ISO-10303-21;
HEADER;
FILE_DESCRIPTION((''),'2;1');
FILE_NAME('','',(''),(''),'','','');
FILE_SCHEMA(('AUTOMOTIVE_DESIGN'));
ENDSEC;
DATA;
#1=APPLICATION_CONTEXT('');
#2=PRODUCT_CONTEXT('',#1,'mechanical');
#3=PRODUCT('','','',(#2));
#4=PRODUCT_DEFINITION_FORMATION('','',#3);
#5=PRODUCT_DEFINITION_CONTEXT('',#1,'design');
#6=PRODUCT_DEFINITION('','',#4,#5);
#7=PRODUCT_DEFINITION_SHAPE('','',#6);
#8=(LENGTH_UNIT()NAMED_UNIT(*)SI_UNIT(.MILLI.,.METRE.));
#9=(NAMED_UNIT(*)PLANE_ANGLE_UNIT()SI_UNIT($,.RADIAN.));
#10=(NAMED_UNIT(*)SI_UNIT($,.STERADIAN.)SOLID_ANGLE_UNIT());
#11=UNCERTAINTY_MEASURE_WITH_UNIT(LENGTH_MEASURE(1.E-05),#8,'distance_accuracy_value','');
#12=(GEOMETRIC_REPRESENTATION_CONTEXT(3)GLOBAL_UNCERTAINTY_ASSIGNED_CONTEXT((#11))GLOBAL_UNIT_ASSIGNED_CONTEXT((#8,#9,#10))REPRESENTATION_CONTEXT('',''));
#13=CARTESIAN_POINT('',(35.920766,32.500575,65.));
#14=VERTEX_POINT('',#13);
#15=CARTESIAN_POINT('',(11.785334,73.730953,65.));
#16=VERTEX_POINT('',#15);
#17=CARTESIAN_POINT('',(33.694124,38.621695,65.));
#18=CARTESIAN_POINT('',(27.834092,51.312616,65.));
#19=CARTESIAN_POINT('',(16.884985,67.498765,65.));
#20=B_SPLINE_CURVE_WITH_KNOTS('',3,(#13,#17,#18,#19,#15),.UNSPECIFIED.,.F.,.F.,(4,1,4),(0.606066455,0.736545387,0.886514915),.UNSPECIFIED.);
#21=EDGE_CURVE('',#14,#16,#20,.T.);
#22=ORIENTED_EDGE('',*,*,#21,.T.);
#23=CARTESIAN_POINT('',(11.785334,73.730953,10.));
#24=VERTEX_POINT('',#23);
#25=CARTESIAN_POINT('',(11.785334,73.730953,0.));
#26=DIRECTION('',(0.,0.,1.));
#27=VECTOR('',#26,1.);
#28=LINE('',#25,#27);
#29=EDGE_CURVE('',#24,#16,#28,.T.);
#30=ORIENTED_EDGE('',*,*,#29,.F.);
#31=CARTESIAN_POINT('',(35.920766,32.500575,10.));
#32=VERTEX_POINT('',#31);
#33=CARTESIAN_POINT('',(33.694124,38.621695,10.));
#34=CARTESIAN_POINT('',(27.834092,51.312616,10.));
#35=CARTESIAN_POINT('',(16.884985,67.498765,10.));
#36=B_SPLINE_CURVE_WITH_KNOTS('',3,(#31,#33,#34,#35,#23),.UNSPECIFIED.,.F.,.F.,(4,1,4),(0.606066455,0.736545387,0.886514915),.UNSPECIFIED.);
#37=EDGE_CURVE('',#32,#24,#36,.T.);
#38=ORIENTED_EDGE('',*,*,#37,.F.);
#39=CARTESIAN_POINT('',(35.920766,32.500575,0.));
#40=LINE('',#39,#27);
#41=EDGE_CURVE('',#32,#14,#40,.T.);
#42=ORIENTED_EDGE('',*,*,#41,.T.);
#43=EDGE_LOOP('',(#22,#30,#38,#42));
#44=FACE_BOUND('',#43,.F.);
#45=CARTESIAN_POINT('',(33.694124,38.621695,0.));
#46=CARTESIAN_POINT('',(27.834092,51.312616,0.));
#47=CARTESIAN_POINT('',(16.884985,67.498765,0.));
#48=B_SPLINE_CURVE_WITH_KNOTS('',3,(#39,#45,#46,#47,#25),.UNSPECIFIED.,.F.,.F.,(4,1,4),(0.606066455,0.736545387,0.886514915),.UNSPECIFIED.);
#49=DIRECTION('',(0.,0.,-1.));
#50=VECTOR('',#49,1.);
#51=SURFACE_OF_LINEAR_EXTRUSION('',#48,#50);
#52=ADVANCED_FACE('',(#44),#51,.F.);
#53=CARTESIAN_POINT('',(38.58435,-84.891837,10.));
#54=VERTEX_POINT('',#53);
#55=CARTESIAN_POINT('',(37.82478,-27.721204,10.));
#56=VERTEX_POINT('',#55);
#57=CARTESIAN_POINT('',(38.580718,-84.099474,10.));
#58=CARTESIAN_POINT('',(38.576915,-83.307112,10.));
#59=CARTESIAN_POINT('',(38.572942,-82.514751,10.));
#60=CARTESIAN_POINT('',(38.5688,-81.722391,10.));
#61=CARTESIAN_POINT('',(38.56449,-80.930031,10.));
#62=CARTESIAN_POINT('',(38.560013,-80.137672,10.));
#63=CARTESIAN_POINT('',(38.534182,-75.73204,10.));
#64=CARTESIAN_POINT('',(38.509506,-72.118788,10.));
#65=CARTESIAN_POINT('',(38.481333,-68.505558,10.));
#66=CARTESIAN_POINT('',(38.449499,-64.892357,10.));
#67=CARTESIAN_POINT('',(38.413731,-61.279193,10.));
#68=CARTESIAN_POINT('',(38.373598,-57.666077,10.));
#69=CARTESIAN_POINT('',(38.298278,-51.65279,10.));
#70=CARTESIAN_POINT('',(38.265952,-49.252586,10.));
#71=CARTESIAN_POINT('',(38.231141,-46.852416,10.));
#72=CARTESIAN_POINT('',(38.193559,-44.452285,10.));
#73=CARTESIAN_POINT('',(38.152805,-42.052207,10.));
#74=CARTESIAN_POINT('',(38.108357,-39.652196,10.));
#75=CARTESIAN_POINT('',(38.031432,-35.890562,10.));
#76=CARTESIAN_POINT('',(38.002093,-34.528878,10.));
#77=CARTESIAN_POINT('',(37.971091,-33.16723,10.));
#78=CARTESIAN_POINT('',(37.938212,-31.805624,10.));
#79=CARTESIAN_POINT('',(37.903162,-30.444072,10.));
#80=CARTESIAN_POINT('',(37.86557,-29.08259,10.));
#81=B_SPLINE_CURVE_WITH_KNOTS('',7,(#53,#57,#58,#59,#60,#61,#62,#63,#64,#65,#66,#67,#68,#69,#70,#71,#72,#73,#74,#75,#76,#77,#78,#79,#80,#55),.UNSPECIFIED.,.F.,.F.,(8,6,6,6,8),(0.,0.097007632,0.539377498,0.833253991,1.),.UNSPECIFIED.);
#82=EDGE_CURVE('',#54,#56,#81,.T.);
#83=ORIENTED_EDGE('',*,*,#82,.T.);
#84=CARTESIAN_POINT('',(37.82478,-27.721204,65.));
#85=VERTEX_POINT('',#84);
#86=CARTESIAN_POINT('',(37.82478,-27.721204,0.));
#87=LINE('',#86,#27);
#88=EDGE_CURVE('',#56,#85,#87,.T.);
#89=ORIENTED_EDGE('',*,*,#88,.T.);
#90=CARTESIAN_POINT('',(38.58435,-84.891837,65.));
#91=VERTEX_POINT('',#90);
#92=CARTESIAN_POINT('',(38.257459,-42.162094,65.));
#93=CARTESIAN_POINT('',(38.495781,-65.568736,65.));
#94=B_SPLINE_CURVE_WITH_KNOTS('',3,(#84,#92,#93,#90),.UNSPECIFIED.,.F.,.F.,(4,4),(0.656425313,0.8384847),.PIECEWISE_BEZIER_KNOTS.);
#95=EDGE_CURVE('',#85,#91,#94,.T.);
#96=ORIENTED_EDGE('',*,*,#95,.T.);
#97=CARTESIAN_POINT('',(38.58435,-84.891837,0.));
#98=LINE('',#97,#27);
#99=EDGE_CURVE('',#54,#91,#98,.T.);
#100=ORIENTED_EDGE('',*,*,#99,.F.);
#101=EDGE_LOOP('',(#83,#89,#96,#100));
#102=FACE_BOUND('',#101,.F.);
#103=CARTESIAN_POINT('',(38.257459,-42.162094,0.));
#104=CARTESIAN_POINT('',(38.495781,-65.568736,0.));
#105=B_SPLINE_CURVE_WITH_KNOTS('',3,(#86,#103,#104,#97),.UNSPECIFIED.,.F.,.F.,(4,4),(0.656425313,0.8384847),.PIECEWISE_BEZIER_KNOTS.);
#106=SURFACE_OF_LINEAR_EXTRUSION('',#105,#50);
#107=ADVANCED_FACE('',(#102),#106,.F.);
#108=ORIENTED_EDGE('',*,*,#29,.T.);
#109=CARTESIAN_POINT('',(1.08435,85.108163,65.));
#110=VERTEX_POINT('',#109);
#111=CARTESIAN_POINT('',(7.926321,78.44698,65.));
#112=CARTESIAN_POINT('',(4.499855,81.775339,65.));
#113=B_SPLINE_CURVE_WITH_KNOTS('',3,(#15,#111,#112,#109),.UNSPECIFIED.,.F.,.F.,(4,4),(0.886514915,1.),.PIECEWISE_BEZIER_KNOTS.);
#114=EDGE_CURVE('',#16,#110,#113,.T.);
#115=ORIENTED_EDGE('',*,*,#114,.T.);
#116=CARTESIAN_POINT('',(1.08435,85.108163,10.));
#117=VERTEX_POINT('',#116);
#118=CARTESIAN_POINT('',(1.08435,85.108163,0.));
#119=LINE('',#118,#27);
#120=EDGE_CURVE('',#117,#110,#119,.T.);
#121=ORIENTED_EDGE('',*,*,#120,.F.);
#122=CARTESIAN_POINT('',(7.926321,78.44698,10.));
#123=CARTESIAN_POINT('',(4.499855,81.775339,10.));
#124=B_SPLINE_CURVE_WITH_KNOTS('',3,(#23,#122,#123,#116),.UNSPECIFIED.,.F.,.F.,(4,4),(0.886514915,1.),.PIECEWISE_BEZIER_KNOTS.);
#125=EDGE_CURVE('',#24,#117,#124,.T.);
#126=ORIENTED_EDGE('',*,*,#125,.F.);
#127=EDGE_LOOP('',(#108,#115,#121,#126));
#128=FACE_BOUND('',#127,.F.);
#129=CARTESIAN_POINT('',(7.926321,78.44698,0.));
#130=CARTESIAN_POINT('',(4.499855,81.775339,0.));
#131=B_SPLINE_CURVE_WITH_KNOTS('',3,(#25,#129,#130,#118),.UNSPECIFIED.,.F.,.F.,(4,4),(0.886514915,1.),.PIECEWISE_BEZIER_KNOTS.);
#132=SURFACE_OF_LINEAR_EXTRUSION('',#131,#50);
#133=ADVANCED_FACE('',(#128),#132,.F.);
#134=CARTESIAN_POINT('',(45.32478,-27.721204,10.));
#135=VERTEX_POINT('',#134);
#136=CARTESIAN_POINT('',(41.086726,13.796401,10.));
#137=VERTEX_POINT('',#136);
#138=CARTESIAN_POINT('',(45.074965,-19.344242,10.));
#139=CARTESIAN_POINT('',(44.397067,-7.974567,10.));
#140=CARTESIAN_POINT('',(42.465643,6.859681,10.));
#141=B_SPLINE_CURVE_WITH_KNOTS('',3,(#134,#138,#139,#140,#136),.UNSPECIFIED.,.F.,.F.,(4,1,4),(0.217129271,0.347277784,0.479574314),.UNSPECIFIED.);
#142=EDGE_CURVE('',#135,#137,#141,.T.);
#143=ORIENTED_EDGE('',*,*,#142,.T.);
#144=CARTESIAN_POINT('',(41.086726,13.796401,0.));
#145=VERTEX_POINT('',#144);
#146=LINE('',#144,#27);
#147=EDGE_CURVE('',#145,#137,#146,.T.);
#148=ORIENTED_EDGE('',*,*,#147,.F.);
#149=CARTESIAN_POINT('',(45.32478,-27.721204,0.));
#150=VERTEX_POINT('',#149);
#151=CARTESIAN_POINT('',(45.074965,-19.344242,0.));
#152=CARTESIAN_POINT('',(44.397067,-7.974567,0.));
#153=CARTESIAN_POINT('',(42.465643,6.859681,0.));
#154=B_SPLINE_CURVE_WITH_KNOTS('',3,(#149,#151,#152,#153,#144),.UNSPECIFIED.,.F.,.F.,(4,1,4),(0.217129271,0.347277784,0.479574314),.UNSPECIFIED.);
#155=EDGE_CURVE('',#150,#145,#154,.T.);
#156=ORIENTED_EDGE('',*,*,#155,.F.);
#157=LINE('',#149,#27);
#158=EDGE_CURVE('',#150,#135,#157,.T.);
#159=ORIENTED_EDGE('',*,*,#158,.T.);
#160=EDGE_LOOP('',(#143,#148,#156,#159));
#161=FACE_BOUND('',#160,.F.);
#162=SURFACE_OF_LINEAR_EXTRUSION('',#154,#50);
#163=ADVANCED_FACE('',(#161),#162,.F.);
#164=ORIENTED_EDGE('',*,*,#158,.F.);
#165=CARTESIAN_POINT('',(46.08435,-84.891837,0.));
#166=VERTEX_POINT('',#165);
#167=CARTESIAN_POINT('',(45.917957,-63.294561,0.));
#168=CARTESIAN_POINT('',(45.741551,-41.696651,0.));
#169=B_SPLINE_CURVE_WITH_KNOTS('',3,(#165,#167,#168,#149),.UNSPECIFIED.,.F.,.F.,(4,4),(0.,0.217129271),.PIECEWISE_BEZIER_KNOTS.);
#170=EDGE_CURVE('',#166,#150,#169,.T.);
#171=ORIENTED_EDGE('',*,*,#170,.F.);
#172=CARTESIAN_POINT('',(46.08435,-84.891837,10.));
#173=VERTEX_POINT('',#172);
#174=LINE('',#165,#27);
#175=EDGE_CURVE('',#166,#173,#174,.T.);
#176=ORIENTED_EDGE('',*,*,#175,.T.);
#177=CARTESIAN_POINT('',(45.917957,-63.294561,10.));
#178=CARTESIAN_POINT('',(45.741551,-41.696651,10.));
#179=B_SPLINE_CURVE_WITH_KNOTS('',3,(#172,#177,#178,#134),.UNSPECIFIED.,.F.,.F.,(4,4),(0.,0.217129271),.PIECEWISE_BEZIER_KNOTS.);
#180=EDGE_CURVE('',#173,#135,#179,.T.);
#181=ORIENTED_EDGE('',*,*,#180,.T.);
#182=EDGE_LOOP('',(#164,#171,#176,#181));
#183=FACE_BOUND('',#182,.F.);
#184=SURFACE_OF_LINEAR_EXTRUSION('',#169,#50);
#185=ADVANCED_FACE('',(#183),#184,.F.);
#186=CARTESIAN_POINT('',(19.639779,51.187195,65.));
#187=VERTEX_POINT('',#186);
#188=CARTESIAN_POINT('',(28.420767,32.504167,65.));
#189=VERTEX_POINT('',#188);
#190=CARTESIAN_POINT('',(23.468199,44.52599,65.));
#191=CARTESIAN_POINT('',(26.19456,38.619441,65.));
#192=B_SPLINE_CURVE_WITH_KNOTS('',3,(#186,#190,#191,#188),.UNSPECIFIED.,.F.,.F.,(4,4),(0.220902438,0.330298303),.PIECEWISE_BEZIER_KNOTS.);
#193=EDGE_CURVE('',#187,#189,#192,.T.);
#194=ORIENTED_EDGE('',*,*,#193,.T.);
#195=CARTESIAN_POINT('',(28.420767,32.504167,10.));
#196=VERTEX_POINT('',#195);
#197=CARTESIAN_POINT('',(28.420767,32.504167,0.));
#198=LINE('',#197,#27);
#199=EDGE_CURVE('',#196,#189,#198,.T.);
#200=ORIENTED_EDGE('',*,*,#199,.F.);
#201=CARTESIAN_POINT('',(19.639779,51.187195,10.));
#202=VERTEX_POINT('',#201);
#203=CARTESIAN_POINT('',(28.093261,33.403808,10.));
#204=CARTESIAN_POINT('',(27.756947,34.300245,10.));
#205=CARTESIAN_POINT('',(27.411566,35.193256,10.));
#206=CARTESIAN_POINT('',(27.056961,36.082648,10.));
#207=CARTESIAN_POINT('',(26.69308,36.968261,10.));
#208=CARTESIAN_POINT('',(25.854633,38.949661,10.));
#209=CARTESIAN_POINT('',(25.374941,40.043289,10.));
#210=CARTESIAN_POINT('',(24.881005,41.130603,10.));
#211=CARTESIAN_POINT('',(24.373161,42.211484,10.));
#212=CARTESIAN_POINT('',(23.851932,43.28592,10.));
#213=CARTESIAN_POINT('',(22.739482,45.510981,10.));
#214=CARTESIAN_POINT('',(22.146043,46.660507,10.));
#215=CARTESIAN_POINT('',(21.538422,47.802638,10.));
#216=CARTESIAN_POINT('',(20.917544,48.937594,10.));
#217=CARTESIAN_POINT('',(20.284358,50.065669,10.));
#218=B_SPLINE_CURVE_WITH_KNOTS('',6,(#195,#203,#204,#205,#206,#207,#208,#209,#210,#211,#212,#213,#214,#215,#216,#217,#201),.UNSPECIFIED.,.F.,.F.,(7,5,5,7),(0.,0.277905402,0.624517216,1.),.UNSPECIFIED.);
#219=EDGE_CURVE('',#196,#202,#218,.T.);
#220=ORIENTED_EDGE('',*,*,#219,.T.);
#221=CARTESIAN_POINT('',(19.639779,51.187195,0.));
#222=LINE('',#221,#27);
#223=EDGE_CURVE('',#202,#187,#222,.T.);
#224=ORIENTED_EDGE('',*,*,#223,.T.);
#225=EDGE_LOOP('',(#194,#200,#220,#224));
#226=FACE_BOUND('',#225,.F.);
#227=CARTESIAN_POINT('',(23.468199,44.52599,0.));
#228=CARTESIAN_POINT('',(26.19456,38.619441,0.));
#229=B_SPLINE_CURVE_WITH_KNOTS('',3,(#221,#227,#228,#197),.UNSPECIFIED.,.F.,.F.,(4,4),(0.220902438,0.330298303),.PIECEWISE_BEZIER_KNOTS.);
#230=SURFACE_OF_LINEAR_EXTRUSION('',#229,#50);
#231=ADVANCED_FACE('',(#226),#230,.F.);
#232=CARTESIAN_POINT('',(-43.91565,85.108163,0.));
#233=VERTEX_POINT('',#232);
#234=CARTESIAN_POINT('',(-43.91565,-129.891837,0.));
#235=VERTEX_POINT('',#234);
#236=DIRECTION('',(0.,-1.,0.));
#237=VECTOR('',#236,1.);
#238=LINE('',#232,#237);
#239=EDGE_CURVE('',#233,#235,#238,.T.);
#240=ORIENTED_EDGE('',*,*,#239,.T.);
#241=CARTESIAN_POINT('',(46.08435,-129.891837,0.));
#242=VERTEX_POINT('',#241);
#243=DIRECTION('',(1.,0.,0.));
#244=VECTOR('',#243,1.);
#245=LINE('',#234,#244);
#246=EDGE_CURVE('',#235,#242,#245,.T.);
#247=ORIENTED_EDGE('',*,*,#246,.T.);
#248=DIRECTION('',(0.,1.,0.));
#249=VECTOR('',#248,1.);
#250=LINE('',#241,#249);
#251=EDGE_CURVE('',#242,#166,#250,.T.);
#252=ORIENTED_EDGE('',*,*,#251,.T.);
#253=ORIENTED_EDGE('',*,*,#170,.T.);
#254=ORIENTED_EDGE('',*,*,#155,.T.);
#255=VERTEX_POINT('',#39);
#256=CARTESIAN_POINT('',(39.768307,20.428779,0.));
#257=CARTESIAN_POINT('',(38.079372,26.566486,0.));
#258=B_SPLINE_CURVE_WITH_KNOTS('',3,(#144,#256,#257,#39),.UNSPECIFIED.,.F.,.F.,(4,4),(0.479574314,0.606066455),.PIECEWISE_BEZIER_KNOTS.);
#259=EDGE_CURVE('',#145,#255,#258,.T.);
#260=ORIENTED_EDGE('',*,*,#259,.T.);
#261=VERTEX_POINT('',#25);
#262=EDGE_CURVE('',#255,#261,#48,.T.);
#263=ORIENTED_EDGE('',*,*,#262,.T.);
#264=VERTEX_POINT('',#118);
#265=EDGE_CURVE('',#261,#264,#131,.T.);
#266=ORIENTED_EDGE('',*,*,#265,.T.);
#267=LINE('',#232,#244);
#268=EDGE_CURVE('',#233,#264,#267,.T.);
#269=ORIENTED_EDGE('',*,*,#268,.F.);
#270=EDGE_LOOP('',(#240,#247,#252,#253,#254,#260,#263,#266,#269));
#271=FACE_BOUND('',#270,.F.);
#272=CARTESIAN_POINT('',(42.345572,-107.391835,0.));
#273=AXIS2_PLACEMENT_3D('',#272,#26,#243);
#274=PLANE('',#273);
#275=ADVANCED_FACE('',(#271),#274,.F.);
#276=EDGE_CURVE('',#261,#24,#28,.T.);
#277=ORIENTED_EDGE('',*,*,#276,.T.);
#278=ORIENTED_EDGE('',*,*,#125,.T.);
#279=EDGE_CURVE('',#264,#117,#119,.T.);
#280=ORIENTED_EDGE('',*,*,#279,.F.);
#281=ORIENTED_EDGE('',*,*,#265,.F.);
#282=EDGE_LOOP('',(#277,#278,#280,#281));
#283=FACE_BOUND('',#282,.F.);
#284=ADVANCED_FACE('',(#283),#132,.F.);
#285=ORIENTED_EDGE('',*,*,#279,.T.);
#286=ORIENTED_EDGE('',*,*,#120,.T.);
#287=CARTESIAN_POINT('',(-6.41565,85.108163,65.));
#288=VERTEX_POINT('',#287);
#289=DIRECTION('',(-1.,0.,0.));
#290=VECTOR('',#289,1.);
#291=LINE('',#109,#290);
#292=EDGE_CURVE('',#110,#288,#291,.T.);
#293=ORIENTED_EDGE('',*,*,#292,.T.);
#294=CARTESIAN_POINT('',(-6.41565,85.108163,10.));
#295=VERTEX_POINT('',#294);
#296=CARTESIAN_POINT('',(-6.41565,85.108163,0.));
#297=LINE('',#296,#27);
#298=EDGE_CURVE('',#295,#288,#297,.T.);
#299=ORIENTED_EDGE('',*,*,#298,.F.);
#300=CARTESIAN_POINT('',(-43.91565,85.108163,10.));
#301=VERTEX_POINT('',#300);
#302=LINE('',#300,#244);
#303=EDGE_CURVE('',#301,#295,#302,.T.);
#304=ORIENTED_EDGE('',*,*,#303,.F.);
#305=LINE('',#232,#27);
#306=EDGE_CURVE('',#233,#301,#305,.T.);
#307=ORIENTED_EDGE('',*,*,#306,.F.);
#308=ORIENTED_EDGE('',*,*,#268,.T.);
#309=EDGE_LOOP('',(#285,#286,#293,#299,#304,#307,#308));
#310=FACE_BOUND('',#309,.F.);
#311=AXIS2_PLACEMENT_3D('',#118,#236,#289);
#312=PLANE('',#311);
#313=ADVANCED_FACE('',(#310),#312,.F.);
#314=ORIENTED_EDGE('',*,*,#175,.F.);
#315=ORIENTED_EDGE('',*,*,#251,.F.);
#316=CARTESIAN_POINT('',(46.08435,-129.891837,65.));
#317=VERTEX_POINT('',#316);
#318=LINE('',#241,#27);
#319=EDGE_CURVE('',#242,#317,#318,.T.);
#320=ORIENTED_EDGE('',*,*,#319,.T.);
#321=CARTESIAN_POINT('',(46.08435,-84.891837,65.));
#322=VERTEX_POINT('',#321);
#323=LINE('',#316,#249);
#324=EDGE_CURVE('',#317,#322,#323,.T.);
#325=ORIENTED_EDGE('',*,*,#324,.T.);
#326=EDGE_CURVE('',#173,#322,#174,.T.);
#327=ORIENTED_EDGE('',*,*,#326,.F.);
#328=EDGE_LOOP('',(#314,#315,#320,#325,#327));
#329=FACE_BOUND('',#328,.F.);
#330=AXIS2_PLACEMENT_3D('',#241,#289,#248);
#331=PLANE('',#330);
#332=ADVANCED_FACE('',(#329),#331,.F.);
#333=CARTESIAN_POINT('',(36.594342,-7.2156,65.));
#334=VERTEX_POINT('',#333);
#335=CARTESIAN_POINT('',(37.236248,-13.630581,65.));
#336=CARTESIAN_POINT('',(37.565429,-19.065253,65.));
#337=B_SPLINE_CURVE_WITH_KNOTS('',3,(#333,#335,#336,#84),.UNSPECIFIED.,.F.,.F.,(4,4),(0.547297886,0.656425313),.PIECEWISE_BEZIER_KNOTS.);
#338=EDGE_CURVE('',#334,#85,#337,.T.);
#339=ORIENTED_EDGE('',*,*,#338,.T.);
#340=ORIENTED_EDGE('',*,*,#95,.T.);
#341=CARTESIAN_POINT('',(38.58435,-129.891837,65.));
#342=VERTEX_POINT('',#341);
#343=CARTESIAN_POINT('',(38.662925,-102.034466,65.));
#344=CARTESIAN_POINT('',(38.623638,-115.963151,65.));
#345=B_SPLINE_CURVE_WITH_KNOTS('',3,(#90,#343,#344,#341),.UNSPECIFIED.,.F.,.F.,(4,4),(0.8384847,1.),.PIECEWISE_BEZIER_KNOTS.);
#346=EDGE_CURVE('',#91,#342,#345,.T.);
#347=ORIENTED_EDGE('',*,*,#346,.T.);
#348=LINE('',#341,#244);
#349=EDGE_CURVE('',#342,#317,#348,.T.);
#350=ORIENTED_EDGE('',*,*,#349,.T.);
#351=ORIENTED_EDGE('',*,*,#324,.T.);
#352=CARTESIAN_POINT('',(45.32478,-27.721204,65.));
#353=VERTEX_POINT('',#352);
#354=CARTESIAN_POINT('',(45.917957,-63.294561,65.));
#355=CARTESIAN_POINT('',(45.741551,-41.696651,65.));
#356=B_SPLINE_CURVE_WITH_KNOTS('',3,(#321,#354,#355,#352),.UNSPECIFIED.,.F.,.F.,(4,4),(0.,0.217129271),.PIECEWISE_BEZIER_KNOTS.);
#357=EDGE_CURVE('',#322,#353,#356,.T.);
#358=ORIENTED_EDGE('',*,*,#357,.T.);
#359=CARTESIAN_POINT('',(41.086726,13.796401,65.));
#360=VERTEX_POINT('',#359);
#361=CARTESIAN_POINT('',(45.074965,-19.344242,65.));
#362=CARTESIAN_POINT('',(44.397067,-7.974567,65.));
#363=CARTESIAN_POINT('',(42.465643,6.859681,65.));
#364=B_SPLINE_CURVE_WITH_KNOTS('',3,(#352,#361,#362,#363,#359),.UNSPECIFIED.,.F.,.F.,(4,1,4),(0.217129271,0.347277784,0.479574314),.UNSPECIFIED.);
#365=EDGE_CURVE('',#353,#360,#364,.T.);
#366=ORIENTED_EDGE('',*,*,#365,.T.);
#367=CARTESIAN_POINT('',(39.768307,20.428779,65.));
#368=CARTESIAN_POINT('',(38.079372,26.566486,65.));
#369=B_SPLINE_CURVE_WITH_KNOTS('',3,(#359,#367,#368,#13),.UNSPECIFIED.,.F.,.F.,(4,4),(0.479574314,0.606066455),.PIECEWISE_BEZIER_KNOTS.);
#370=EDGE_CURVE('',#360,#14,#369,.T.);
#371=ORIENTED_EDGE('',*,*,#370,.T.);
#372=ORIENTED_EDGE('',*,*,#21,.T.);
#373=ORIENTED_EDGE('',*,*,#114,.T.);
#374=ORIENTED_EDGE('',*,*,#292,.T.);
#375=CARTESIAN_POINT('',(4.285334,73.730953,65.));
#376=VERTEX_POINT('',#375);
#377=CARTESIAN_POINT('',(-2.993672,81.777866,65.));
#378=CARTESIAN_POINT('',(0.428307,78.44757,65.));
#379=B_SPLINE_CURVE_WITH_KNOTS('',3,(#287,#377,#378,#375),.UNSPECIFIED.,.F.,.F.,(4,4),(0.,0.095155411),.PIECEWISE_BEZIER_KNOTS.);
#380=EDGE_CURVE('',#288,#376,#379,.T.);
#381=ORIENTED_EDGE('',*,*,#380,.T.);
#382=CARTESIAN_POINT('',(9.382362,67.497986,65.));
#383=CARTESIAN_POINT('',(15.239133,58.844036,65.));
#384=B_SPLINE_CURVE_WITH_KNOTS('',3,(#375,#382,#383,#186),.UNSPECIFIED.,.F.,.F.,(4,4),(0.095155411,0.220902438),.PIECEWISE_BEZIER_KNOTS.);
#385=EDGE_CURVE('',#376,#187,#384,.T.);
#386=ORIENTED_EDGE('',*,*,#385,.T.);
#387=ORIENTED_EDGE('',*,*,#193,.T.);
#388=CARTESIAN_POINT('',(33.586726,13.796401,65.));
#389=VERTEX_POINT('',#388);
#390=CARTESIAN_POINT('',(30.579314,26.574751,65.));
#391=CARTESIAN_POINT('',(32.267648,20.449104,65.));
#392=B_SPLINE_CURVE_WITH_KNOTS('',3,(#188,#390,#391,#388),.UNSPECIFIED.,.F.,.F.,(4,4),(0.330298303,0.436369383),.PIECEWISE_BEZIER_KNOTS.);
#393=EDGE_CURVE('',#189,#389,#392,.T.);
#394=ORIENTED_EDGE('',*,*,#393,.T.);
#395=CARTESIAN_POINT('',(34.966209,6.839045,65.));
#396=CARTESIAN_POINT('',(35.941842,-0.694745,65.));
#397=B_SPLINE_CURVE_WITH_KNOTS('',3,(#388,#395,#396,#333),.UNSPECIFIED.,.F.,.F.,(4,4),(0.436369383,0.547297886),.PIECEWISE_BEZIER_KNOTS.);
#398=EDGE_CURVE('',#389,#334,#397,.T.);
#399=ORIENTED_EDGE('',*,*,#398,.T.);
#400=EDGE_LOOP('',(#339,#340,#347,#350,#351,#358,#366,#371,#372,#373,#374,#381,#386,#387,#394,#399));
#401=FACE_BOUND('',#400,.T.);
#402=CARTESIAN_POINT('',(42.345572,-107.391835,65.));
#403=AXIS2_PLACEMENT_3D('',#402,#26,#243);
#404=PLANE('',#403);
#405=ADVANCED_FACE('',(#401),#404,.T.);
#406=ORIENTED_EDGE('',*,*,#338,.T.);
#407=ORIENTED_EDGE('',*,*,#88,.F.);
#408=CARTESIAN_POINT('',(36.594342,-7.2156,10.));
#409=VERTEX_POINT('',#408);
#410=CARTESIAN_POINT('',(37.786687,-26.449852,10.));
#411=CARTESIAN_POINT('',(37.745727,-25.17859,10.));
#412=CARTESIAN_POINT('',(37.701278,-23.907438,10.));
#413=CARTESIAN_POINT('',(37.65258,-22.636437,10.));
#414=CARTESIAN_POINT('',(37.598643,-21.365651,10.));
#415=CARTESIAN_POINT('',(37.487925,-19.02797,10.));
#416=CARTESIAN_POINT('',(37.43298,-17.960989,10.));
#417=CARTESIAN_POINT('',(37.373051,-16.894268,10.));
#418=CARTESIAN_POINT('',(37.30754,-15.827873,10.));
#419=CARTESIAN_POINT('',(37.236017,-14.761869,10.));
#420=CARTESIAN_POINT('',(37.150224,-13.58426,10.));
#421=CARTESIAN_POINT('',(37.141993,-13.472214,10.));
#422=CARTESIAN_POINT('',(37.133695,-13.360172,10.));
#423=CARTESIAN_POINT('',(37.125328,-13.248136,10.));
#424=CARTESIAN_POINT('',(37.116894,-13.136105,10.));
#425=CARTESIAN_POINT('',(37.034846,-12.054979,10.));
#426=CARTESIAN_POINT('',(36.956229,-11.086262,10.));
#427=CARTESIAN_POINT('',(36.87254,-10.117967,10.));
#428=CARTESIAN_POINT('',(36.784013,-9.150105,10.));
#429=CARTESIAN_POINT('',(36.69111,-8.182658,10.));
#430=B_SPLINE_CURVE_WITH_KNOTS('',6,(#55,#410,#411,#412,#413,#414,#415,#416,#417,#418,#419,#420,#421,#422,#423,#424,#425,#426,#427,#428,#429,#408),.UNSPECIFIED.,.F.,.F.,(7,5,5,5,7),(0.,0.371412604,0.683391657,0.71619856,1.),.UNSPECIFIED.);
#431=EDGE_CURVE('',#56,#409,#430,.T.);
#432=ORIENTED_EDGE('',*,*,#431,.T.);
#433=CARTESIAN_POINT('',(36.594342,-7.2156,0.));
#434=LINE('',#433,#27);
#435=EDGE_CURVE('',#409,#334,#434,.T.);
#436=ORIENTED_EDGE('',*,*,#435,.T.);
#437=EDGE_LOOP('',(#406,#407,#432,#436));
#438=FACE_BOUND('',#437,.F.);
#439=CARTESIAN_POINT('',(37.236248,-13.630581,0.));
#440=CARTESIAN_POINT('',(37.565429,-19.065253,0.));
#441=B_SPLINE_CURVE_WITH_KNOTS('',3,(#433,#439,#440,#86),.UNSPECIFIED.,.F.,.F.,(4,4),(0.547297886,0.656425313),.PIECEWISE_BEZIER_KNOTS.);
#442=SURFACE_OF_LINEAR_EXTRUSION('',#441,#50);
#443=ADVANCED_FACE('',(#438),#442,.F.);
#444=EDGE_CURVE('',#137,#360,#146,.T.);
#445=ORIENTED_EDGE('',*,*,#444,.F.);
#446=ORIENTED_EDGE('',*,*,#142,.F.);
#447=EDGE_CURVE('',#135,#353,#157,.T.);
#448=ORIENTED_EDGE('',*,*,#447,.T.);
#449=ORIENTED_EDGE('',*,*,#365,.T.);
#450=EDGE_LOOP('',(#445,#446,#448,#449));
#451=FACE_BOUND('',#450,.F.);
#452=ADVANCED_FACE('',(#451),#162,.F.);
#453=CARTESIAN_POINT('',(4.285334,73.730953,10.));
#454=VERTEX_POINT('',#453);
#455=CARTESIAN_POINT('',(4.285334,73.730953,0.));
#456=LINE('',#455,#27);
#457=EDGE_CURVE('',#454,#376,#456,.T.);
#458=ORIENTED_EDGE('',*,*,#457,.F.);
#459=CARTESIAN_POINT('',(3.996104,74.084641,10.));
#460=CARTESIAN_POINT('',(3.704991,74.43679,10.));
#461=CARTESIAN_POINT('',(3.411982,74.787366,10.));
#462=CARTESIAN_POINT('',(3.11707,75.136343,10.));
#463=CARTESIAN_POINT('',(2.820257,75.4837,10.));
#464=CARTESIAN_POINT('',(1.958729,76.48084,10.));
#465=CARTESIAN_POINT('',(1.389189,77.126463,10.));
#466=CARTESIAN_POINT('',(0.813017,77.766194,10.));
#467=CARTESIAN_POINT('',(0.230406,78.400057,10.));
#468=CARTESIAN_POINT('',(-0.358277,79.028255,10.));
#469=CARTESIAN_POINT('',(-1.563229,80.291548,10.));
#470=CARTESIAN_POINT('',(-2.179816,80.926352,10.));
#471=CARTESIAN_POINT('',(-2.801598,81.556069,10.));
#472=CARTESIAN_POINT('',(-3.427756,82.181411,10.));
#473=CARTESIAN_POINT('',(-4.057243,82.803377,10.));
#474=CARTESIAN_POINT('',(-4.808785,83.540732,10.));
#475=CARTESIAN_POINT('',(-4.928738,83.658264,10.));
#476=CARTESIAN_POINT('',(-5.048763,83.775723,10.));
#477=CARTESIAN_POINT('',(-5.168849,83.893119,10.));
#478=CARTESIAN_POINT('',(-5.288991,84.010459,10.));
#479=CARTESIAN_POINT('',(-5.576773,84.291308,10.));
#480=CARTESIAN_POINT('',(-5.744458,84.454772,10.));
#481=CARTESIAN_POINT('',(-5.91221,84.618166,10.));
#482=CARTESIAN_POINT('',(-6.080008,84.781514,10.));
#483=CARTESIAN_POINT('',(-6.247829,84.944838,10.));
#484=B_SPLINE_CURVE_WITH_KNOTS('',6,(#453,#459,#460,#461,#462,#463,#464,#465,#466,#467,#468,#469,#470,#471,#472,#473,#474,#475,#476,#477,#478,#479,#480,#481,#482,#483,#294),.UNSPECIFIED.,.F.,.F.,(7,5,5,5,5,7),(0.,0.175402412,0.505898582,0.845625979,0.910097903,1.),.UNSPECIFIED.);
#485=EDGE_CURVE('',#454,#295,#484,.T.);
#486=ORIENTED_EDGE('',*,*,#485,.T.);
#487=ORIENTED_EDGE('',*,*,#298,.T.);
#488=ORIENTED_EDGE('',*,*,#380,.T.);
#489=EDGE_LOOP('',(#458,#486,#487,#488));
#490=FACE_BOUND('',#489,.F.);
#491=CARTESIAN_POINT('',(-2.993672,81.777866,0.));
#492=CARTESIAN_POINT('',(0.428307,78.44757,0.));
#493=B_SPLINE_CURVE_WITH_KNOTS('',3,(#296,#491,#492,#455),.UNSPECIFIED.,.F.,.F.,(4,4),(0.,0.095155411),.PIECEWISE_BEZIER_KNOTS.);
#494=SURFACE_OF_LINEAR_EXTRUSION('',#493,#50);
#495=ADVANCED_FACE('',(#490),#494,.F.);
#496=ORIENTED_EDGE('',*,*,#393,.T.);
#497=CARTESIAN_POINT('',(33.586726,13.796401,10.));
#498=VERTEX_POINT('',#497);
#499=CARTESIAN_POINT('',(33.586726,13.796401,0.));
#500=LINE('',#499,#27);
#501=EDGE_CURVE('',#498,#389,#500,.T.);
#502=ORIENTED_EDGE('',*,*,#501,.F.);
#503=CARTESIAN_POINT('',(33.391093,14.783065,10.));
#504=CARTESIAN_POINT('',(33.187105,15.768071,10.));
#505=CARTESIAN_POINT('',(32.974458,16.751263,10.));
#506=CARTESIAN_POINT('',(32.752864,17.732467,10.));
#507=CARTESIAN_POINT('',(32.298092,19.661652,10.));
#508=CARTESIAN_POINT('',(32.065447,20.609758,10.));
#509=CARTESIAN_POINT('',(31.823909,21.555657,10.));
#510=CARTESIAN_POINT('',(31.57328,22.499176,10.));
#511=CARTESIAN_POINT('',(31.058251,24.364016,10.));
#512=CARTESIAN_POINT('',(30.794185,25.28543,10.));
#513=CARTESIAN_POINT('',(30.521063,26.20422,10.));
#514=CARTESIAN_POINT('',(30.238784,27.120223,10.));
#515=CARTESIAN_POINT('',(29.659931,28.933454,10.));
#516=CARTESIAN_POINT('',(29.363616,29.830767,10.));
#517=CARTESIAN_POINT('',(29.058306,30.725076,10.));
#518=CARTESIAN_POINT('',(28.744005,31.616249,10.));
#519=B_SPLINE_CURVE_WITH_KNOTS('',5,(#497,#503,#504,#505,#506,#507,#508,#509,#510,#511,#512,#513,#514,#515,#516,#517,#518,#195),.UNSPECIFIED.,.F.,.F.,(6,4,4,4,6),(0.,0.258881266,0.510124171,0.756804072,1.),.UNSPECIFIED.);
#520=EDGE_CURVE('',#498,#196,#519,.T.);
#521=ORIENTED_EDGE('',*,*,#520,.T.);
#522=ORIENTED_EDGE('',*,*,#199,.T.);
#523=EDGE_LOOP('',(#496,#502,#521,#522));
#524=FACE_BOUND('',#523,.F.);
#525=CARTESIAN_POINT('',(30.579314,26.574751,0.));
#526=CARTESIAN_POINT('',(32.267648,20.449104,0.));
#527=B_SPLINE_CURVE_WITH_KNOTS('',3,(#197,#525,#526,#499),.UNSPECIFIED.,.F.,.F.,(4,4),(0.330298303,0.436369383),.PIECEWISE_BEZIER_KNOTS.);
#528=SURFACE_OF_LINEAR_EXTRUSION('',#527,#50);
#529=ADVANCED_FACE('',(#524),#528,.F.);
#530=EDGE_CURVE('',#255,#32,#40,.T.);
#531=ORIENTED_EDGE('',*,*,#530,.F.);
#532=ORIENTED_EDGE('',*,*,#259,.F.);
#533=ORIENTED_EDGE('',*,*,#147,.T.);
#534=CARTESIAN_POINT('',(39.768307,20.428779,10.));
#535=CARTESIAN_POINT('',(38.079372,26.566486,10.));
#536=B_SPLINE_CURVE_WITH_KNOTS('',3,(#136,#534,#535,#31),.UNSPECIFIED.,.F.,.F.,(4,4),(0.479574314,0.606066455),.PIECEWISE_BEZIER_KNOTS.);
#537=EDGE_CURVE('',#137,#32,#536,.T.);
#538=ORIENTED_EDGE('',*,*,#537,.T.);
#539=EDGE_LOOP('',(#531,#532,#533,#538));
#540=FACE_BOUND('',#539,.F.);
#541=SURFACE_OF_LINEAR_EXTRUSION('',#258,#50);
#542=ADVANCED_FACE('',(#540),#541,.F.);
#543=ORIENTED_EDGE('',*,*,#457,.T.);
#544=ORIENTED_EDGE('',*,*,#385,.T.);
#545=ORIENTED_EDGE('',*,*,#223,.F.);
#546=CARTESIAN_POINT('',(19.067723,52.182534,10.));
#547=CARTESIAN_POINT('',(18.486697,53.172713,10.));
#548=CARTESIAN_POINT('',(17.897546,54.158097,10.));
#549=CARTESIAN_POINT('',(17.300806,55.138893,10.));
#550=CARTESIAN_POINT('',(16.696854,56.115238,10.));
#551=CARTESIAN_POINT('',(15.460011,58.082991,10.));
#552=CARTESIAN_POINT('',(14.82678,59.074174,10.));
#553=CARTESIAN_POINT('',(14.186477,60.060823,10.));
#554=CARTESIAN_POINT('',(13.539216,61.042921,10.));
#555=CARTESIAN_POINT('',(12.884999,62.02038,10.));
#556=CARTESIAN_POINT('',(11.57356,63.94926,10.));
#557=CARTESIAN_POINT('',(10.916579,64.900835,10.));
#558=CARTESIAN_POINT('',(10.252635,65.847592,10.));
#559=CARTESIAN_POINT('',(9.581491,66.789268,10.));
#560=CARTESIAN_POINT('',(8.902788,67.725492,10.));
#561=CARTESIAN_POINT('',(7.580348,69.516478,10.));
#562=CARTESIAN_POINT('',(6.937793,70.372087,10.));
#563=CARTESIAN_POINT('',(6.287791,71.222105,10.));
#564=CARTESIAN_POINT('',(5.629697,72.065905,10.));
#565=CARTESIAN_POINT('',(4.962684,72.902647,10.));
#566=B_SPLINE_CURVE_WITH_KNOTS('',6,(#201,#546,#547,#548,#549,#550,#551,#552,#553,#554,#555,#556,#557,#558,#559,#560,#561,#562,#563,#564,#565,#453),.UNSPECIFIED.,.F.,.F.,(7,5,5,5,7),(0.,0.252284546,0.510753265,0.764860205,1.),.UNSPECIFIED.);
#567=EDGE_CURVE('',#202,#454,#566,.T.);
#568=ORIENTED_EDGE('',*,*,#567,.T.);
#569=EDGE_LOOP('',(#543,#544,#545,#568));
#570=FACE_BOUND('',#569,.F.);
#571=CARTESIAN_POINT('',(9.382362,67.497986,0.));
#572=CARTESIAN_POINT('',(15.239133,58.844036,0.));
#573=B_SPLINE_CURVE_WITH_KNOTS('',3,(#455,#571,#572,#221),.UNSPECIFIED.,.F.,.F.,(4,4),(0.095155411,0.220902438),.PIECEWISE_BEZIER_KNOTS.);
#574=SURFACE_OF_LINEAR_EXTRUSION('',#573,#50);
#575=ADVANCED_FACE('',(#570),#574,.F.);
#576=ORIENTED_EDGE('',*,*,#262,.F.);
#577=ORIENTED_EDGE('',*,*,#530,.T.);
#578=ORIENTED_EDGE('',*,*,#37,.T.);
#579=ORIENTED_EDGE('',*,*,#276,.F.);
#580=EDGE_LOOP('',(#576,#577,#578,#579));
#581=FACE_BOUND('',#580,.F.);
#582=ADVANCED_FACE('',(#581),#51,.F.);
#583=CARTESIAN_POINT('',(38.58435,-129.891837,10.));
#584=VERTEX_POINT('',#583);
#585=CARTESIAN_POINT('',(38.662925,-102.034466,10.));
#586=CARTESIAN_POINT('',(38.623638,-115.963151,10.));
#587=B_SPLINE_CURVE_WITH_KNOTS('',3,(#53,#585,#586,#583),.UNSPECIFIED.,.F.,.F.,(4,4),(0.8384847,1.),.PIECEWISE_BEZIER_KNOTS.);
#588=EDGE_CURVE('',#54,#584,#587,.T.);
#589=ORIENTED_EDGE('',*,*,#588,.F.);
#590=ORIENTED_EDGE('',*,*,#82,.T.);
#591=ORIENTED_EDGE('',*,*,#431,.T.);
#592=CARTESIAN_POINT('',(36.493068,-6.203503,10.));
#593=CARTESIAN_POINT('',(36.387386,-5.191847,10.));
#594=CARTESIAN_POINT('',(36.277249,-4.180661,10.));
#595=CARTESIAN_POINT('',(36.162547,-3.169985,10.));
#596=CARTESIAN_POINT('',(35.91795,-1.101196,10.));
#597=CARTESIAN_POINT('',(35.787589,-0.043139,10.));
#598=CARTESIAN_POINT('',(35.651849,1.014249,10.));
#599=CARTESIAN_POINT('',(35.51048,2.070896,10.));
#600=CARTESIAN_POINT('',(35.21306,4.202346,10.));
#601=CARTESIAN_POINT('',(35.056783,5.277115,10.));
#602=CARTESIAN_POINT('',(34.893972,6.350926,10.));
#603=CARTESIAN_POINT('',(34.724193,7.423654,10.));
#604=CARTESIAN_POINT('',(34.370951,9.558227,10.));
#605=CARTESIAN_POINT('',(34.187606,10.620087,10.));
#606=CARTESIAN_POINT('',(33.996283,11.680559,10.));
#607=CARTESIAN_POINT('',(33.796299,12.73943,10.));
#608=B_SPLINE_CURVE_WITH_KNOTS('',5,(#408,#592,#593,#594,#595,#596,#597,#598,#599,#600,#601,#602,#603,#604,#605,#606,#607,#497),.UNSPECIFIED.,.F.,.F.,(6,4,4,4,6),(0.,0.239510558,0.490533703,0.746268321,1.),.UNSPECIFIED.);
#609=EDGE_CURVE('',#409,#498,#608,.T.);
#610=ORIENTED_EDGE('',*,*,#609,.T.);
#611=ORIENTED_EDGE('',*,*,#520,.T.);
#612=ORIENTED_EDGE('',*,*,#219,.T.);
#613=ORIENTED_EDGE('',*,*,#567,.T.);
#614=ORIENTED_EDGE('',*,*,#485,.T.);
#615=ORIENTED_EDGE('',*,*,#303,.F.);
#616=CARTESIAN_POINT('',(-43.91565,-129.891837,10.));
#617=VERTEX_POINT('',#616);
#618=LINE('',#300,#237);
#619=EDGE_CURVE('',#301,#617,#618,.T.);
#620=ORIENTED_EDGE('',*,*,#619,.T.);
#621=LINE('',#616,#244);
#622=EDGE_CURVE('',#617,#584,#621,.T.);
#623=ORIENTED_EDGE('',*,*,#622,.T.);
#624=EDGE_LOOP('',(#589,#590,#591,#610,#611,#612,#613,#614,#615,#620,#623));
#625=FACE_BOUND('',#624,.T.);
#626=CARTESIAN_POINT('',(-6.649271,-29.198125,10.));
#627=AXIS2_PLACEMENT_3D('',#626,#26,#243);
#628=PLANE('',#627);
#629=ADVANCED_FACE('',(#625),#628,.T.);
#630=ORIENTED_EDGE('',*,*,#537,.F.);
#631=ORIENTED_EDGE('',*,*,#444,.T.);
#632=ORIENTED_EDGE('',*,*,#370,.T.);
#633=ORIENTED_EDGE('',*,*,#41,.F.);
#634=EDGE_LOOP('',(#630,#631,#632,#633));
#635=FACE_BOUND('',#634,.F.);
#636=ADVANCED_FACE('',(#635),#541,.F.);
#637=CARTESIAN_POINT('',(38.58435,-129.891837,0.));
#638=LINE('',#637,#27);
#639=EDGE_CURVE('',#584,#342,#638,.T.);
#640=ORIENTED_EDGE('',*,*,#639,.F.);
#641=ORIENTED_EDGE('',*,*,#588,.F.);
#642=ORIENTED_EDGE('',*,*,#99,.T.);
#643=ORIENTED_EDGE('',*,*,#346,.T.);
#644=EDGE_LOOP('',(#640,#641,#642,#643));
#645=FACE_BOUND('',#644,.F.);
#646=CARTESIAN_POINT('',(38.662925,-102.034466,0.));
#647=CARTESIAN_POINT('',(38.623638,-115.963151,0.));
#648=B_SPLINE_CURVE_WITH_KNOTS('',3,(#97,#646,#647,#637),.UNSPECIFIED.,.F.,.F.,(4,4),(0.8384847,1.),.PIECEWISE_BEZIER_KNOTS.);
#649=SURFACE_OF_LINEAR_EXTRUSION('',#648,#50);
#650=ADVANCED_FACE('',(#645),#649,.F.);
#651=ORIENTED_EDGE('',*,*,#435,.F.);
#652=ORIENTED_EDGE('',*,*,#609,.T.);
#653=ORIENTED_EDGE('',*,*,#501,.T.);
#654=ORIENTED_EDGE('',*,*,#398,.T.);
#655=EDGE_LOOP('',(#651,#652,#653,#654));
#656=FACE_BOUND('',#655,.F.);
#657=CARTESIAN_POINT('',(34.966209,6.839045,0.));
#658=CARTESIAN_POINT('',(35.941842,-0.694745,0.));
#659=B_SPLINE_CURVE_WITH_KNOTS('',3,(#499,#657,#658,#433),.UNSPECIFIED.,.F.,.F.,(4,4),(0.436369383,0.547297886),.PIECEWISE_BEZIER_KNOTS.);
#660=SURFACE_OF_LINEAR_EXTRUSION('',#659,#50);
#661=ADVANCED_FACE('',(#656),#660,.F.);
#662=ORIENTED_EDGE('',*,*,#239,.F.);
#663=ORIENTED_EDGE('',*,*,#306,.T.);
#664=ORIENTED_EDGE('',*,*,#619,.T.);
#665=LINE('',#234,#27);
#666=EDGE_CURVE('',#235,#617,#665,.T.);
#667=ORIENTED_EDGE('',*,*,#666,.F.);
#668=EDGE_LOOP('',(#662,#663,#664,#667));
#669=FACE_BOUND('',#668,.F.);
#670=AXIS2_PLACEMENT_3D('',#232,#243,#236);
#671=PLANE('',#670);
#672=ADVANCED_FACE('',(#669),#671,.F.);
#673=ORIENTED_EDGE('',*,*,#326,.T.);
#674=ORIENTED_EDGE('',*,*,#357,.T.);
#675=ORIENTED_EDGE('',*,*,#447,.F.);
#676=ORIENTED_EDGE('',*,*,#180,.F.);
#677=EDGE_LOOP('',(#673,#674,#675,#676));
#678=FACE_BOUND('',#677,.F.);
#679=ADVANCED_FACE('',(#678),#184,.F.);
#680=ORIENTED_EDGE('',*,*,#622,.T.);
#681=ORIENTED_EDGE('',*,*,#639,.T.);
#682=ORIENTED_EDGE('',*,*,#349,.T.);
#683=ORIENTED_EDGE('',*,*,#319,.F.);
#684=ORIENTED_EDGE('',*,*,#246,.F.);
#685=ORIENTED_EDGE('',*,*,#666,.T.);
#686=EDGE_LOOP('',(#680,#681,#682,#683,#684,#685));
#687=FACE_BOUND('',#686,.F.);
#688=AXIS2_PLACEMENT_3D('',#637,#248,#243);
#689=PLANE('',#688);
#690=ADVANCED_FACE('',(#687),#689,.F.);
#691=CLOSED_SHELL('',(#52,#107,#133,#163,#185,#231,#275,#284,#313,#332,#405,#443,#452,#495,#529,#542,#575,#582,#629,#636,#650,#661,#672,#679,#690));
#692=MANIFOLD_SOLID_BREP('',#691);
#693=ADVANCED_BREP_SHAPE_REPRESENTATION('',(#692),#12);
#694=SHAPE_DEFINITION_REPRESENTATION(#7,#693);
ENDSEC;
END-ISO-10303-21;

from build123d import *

# Parameters (mm, degrees)
F1_DEPTH = 10
F2_DEPTH = 10
F3_DEPTH = 65


with BuildPart() as f1:
    # F0 (on Top) → F1 (new body)
    with BuildSketch(Plane.XY):
        with BuildLine():
            Line((-6.4156497025, 85.1081629097), (-43.9156497025, 85.1081629097))
            Line((-43.9156497025, 85.1081629097), (-43.9156497025, -129.8918370903))
            Line((-43.9156497025, -129.8918370903), (38.5843502975, -129.8918370903))
            add(Edge.make_bspline(
                [(38.5843502975, -84.8918370903), (38.6629251975, -102.0344655935), (38.6236377475, -115.9631513419), (38.5843502975, -129.8918370903)],
                knots=[0.8384847001, 0.8384847001, 0.8384847001, 0.8384847001, 1, 1, 1, 1], degree=3))
            add(Edge.make_bspline(
                [(37.8247797489, -27.7212038636), (38.2574592427, -42.1620939878), (38.4957809909, -65.568736192), (38.5843502975, -84.8918370903)],
                knots=[0.656425313, 0.656425313, 0.656425313, 0.656425313, 0.8384847001, 0.8384847001, 0.8384847001, 0.8384847001], degree=3))
            add(Edge.make_bspline(
                [(36.5943424404, -7.2156004608), (37.2362484349, -13.6305807929), (37.5654292116, -19.0652525968), (37.8247797489, -27.7212038636)],
                knots=[0.5472978861, 0.5472978861, 0.5472978861, 0.5472978861, 0.656425313, 0.656425313, 0.656425313, 0.656425313], degree=3))
            add(Edge.make_bspline(
                [(33.5867255926, 13.7964012101), (34.9662089288, 6.8390445181), (35.9418422096, -0.6947450977), (36.5943424404, -7.2156004608)],
                knots=[0.4363693828, 0.4363693828, 0.4363693828, 0.4363693828, 0.5472978861, 0.5472978861, 0.5472978861, 0.5472978861], degree=3))
            add(Edge.make_bspline(
                [(28.4207668155, 32.5041674078), (30.5793144703, 26.5747507113), (32.2676481423, 20.4491037734), (33.5867255926, 13.7964012101)],
                knots=[0.3302983028, 0.3302983028, 0.3302983028, 0.3302983028, 0.4363693828, 0.4363693828, 0.4363693828, 0.4363693828], degree=3))
            add(Edge.make_bspline(
                [(19.6397788823, 51.1871948838), (23.4681991426, 44.5259897561), (26.1945597605, 38.6194409127), (28.4207668155, 32.5041674078)],
                knots=[0.2209024383, 0.2209024383, 0.2209024383, 0.2209024383, 0.3302983028, 0.3302983028, 0.3302983028, 0.3302983028], degree=3))
            add(Edge.make_bspline(
                [(4.2853341438, 73.7309530377), (9.3823617053, 67.4979864081), (15.2391329379, 58.8440359139), (19.6397788823, 51.1871948838)],
                knots=[0.0951554109, 0.0951554109, 0.0951554109, 0.0951554109, 0.2209024383, 0.2209024383, 0.2209024383, 0.2209024383], degree=3))
            add(Edge.make_bspline(
                [(-6.4156497025, 85.1081629097), (-2.9936715674, 81.7778662113), (0.4283065678, 78.4475695129), (4.2853341438, 73.7309530377)],
                knots=[0, 0, 0, 0, 0.0951554109, 0.0951554109, 0.0951554109, 0.0951554109], degree=3))
        make_face()
    extrude(amount=F1_DEPTH)

    # F0 (on Top) → F2 (join)
    with BuildSketch(Plane.XY):
        with BuildLine():
            Line((-6.4156497025, 85.1081629097), (-43.9156497025, 85.1081629097))
            Line((-43.9156497025, 85.1081629097), (-43.9156497025, -129.8918370903))
            Line((-43.9156497025, -129.8918370903), (38.5843502975, -129.8918370903))
            add(Edge.make_bspline(
                [(38.5843502975, -84.8918370903), (38.6629251975, -102.0344655935), (38.6236377475, -115.9631513419), (38.5843502975, -129.8918370903)],
                knots=[0.8384847001, 0.8384847001, 0.8384847001, 0.8384847001, 1, 1, 1, 1], degree=3))
            add(Edge.make_bspline(
                [(37.8247797489, -27.7212038636), (38.2574592427, -42.1620939878), (38.4957809909, -65.568736192), (38.5843502975, -84.8918370903)],
                knots=[0.656425313, 0.656425313, 0.656425313, 0.656425313, 0.8384847001, 0.8384847001, 0.8384847001, 0.8384847001], degree=3))
            add(Edge.make_bspline(
                [(36.5943424404, -7.2156004608), (37.2362484349, -13.6305807929), (37.5654292116, -19.0652525968), (37.8247797489, -27.7212038636)],
                knots=[0.5472978861, 0.5472978861, 0.5472978861, 0.5472978861, 0.656425313, 0.656425313, 0.656425313, 0.656425313], degree=3))
            add(Edge.make_bspline(
                [(33.5867255926, 13.7964012101), (34.9662089288, 6.8390445181), (35.9418422096, -0.6947450977), (36.5943424404, -7.2156004608)],
                knots=[0.4363693828, 0.4363693828, 0.4363693828, 0.4363693828, 0.5472978861, 0.5472978861, 0.5472978861, 0.5472978861], degree=3))
            add(Edge.make_bspline(
                [(28.4207668155, 32.5041674078), (30.5793144703, 26.5747507113), (32.2676481423, 20.4491037734), (33.5867255926, 13.7964012101)],
                knots=[0.3302983028, 0.3302983028, 0.3302983028, 0.3302983028, 0.4363693828, 0.4363693828, 0.4363693828, 0.4363693828], degree=3))
            add(Edge.make_bspline(
                [(19.6397788823, 51.1871948838), (23.4681991426, 44.5259897561), (26.1945597605, 38.6194409127), (28.4207668155, 32.5041674078)],
                knots=[0.2209024383, 0.2209024383, 0.2209024383, 0.2209024383, 0.3302983028, 0.3302983028, 0.3302983028, 0.3302983028], degree=3))
            add(Edge.make_bspline(
                [(4.2853341438, 73.7309530377), (9.3823617053, 67.4979864081), (15.2391329379, 58.8440359139), (19.6397788823, 51.1871948838)],
                knots=[0.0951554109, 0.0951554109, 0.0951554109, 0.0951554109, 0.2209024383, 0.2209024383, 0.2209024383, 0.2209024383], degree=3))
            add(Edge.make_bspline(
                [(-6.4156497025, 85.1081629097), (-2.9936715674, 81.7778662113), (0.4283065678, 78.4475695129), (4.2853341438, 73.7309530377)],
                knots=[0, 0, 0, 0, 0.0951554109, 0.0951554109, 0.0951554109, 0.0951554109], degree=3))
        make_face()
        with BuildLine():
            Line((1.0843502975, 85.1081629097), (-6.4156497025, 85.1081629097))
            add(Edge.make_bspline(
                [(-6.4156497025, 85.1081629097), (-2.9936715674, 81.7778662113), (0.4283065678, 78.4475695129), (4.2853341438, 73.7309530377)],
                knots=[0, 0, 0, 0, 0.0951554109, 0.0951554109, 0.0951554109, 0.0951554109], degree=3))
            Line((4.2853341438, 73.7309530377), (11.7853341438, 73.7309530377))
            add(Edge.make_bspline(
                [(11.7853341438, 73.7309530377), (7.9263211871, 78.4469803122), (4.4998545709, 81.7753394458), (1.0843502975, 85.1081629097)],
                knots=[0.8865149152, 0.8865149152, 0.8865149152, 0.8865149152, 1, 1, 1, 1], degree=3))
        make_face()
        with BuildLine():
            Line((11.7853341438, 73.7309530377), (4.2853341438, 73.7309530377))
            add(Edge.make_bspline(
                [(4.2853341438, 73.7309530377), (9.3823617053, 67.4979864081), (15.2391329379, 58.8440359139), (19.6397788823, 51.1871948838)],
                knots=[0.0951554109, 0.0951554109, 0.0951554109, 0.0951554109, 0.2209024383, 0.2209024383, 0.2209024383, 0.2209024383], degree=3))
            Line((19.6397788823, 51.1871948838), (27.1397788823, 51.1871948838))
            add(Edge.make_bspline(
                [(27.1397788823, 51.1871948838), (22.7400090025, 58.8432384602), (16.8849853681, 67.4987650316), (11.7853341438, 73.7309530377)],
                knots=[0.7365453872, 0.7365453872, 0.7365453872, 0.7365453872, 0.8865149152, 0.8865149152, 0.8865149152, 0.8865149152], degree=3))
        make_face()
        with BuildLine():
            Line((27.1397788823, 51.1871948838), (19.6397788823, 51.1871948838))
            add(Edge.make_bspline(
                [(19.6397788823, 51.1871948838), (23.4681991426, 44.5259897561), (26.1945597605, 38.6194409127), (28.4207668155, 32.5041674078)],
                knots=[0.2209024383, 0.2209024383, 0.2209024383, 0.2209024383, 0.3302983028, 0.3302983028, 0.3302983028, 0.3302983028], degree=3))
            Line((28.4207668155, 32.5041674078), (35.9207659553, 32.5005751986))
            add(Edge.make_bspline(
                [(35.9207659553, 32.5005751986), (33.6941243555, 38.6216951614), (30.9677383505, 44.5261591256), (27.1397788823, 51.1871948838)],
                knots=[0.6060664552, 0.6060664552, 0.6060664552, 0.6060664552, 0.7365453872, 0.7365453872, 0.7365453872, 0.7365453872], degree=3))
        make_face()
        with BuildLine():
            Line((35.9207659553, 32.5005751986), (28.4207668155, 32.5041674078))
            add(Edge.make_bspline(
                [(28.4207668155, 32.5041674078), (30.5793144703, 26.5747507113), (32.2676481423, 20.4491037734), (33.5867255926, 13.7964012101)],
                knots=[0.3302983028, 0.3302983028, 0.3302983028, 0.3302983028, 0.4363693828, 0.4363693828, 0.4363693828, 0.4363693828], degree=3))
            Line((33.5867255926, 13.7964012101), (41.0867255926, 13.7964012101))
            add(Edge.make_bspline(
                [(41.0867255926, 13.7964012101), (39.7683073236, 20.4287791205), (38.0793724104, 26.5664863603), (35.9207659553, 32.5005751986)],
                knots=[0.4795743136, 0.4795743136, 0.4795743136, 0.4795743136, 0.6060664552, 0.6060664552, 0.6060664552, 0.6060664552], degree=3))
        make_face()
        with BuildLine():
            Line((41.0867255926, 13.7964012101), (33.5867255926, 13.7964012101))
            add(Edge.make_bspline(
                [(33.5867255926, 13.7964012101), (34.9662089288, 6.8390445181), (35.9418422096, -0.6947450977), (36.5943424404, -7.2156004608)],
                knots=[0.4363693828, 0.4363693828, 0.4363693828, 0.4363693828, 0.5472978861, 0.5472978861, 0.5472978861, 0.5472978861], degree=3))
            Line((36.5943424404, -7.2156004608), (44.0943424404, -7.2156004608))
            add(Edge.make_bspline(
                [(44.0943424404, -7.2156004608), (43.4392586722, -0.6181494471), (42.4656425654, 6.8596811378), (41.0867255926, 13.7964012101)],
                knots=[0.3472777843, 0.3472777843, 0.3472777843, 0.3472777843, 0.4795743136, 0.4795743136, 0.4795743136, 0.4795743136], degree=3))
        make_face()
        with BuildLine():
            add(Edge.make_bspline(
                [(36.5943424404, -7.2156004608), (37.2362484349, -13.6305807929), (37.5654292116, -19.0652525968), (37.8247797489, -27.7212038636)],
                knots=[0.5472978861, 0.5472978861, 0.5472978861, 0.5472978861, 0.656425313, 0.656425313, 0.656425313, 0.656425313], degree=3))
            Line((37.8247797489, -27.7212038636), (45.3247797489, -27.7212038636))
            add(Edge.make_bspline(
                [(45.3247797489, -27.7212038636), (45.0749649187, -19.3442418385), (44.7387900251, -13.7059328081), (44.0943424404, -7.2156004608)],
                knots=[0.2171292707, 0.2171292707, 0.2171292707, 0.2171292707, 0.3472777843, 0.3472777843, 0.3472777843, 0.3472777843], degree=3))
            Line((44.0943424404, -7.2156004608), (36.5943424404, -7.2156004608))
        make_face()
        with BuildLine():
            add(Edge.make_bspline(
                [(37.8247797489, -27.7212038636), (38.2574592427, -42.1620939878), (38.4957809909, -65.568736192), (38.5843502975, -84.8918370903)],
                knots=[0.656425313, 0.656425313, 0.656425313, 0.656425313, 0.8384847001, 0.8384847001, 0.8384847001, 0.8384847001], degree=3))
            Line((38.5843502975, -84.8918370903), (46.0843502975, -84.8918370903))
            add(Edge.make_bspline(
                [(46.0843502975, -84.8918370903), (45.9179565044, -63.2945609487), (45.7415506391, -41.6966508653), (45.3247797489, -27.7212038636)],
                knots=[0, 0, 0, 0, 0.2171292707, 0.2171292707, 0.2171292707, 0.2171292707], degree=3))
            Line((45.3247797489, -27.7212038636), (37.8247797489, -27.7212038636))
        make_face()
    extrude(amount=F2_DEPTH)

    # F0 (on Top) → F3 (join)
    with BuildSketch(Plane.XY):
        with BuildLine():
            add(Edge.make_bspline(
                [(38.5843502975, -84.8918370903), (38.6629251975, -102.0344655935), (38.6236377475, -115.9631513419), (38.5843502975, -129.8918370903)],
                knots=[0.8384847001, 0.8384847001, 0.8384847001, 0.8384847001, 1, 1, 1, 1], degree=3))
            Line((38.5843502975, -129.8918370903), (46.0843502975, -129.8918370903))
            Line((46.0843502975, -129.8918370903), (46.0843502975, -84.8918370903))
            Line((46.0843502975, -84.8918370903), (38.5843502975, -84.8918370903))
        make_face()
        with BuildLine():
            add(Edge.make_bspline(
                [(37.8247797489, -27.7212038636), (38.2574592427, -42.1620939878), (38.4957809909, -65.568736192), (38.5843502975, -84.8918370903)],
                knots=[0.656425313, 0.656425313, 0.656425313, 0.656425313, 0.8384847001, 0.8384847001, 0.8384847001, 0.8384847001], degree=3))
            Line((38.5843502975, -84.8918370903), (46.0843502975, -84.8918370903))
            add(Edge.make_bspline(
                [(46.0843502975, -84.8918370903), (45.9179565044, -63.2945609487), (45.7415506391, -41.6966508653), (45.3247797489, -27.7212038636)],
                knots=[0, 0, 0, 0, 0.2171292707, 0.2171292707, 0.2171292707, 0.2171292707], degree=3))
            Line((45.3247797489, -27.7212038636), (37.8247797489, -27.7212038636))
        make_face()
        with BuildLine():
            add(Edge.make_bspline(
                [(36.5943424404, -7.2156004608), (37.2362484349, -13.6305807929), (37.5654292116, -19.0652525968), (37.8247797489, -27.7212038636)],
                knots=[0.5472978861, 0.5472978861, 0.5472978861, 0.5472978861, 0.656425313, 0.656425313, 0.656425313, 0.656425313], degree=3))
            Line((37.8247797489, -27.7212038636), (45.3247797489, -27.7212038636))
            add(Edge.make_bspline(
                [(45.3247797489, -27.7212038636), (45.0749649187, -19.3442418385), (44.7387900251, -13.7059328081), (44.0943424404, -7.2156004608)],
                knots=[0.2171292707, 0.2171292707, 0.2171292707, 0.2171292707, 0.3472777843, 0.3472777843, 0.3472777843, 0.3472777843], degree=3))
            Line((44.0943424404, -7.2156004608), (36.5943424404, -7.2156004608))
        make_face()
        with BuildLine():
            Line((41.0867255926, 13.7964012101), (33.5867255926, 13.7964012101))
            add(Edge.make_bspline(
                [(33.5867255926, 13.7964012101), (34.9662089288, 6.8390445181), (35.9418422096, -0.6947450977), (36.5943424404, -7.2156004608)],
                knots=[0.4363693828, 0.4363693828, 0.4363693828, 0.4363693828, 0.5472978861, 0.5472978861, 0.5472978861, 0.5472978861], degree=3))
            Line((36.5943424404, -7.2156004608), (44.0943424404, -7.2156004608))
            add(Edge.make_bspline(
                [(44.0943424404, -7.2156004608), (43.4392586722, -0.6181494471), (42.4656425654, 6.8596811378), (41.0867255926, 13.7964012101)],
                knots=[0.3472777843, 0.3472777843, 0.3472777843, 0.3472777843, 0.4795743136, 0.4795743136, 0.4795743136, 0.4795743136], degree=3))
        make_face()
        with BuildLine():
            Line((35.9207659553, 32.5005751986), (28.4207668155, 32.5041674078))
            add(Edge.make_bspline(
                [(28.4207668155, 32.5041674078), (30.5793144703, 26.5747507113), (32.2676481423, 20.4491037734), (33.5867255926, 13.7964012101)],
                knots=[0.3302983028, 0.3302983028, 0.3302983028, 0.3302983028, 0.4363693828, 0.4363693828, 0.4363693828, 0.4363693828], degree=3))
            Line((33.5867255926, 13.7964012101), (41.0867255926, 13.7964012101))
            add(Edge.make_bspline(
                [(41.0867255926, 13.7964012101), (39.7683073236, 20.4287791205), (38.0793724104, 26.5664863603), (35.9207659553, 32.5005751986)],
                knots=[0.4795743136, 0.4795743136, 0.4795743136, 0.4795743136, 0.6060664552, 0.6060664552, 0.6060664552, 0.6060664552], degree=3))
        make_face()
        with BuildLine():
            Line((27.1397788823, 51.1871948838), (19.6397788823, 51.1871948838))
            add(Edge.make_bspline(
                [(19.6397788823, 51.1871948838), (23.4681991426, 44.5259897561), (26.1945597605, 38.6194409127), (28.4207668155, 32.5041674078)],
                knots=[0.2209024383, 0.2209024383, 0.2209024383, 0.2209024383, 0.3302983028, 0.3302983028, 0.3302983028, 0.3302983028], degree=3))
            Line((28.4207668155, 32.5041674078), (35.9207659553, 32.5005751986))
            add(Edge.make_bspline(
                [(35.9207659553, 32.5005751986), (33.6941243555, 38.6216951614), (30.9677383505, 44.5261591256), (27.1397788823, 51.1871948838)],
                knots=[0.6060664552, 0.6060664552, 0.6060664552, 0.6060664552, 0.7365453872, 0.7365453872, 0.7365453872, 0.7365453872], degree=3))
        make_face()
        with BuildLine():
            Line((1.0843502975, 85.1081629097), (-6.4156497025, 85.1081629097))
            add(Edge.make_bspline(
                [(-6.4156497025, 85.1081629097), (-2.9936715674, 81.7778662113), (0.4283065678, 78.4475695129), (4.2853341438, 73.7309530377)],
                knots=[0, 0, 0, 0, 0.0951554109, 0.0951554109, 0.0951554109, 0.0951554109], degree=3))
            Line((4.2853341438, 73.7309530377), (11.7853341438, 73.7309530377))
            add(Edge.make_bspline(
                [(11.7853341438, 73.7309530377), (7.9263211871, 78.4469803122), (4.4998545709, 81.7753394458), (1.0843502975, 85.1081629097)],
                knots=[0.8865149152, 0.8865149152, 0.8865149152, 0.8865149152, 1, 1, 1, 1], degree=3))
        make_face()
        with BuildLine():
            Line((11.7853341438, 73.7309530377), (4.2853341438, 73.7309530377))
            add(Edge.make_bspline(
                [(4.2853341438, 73.7309530377), (9.3823617053, 67.4979864081), (15.2391329379, 58.8440359139), (19.6397788823, 51.1871948838)],
                knots=[0.0951554109, 0.0951554109, 0.0951554109, 0.0951554109, 0.2209024383, 0.2209024383, 0.2209024383, 0.2209024383], degree=3))
            Line((19.6397788823, 51.1871948838), (27.1397788823, 51.1871948838))
            add(Edge.make_bspline(
                [(27.1397788823, 51.1871948838), (22.7400090025, 58.8432384602), (16.8849853681, 67.4987650316), (11.7853341438, 73.7309530377)],
                knots=[0.7365453872, 0.7365453872, 0.7365453872, 0.7365453872, 0.8865149152, 0.8865149152, 0.8865149152, 0.8865149152], degree=3))
        make_face()
    extrude(amount=F3_DEPTH)


solid = f1.part
